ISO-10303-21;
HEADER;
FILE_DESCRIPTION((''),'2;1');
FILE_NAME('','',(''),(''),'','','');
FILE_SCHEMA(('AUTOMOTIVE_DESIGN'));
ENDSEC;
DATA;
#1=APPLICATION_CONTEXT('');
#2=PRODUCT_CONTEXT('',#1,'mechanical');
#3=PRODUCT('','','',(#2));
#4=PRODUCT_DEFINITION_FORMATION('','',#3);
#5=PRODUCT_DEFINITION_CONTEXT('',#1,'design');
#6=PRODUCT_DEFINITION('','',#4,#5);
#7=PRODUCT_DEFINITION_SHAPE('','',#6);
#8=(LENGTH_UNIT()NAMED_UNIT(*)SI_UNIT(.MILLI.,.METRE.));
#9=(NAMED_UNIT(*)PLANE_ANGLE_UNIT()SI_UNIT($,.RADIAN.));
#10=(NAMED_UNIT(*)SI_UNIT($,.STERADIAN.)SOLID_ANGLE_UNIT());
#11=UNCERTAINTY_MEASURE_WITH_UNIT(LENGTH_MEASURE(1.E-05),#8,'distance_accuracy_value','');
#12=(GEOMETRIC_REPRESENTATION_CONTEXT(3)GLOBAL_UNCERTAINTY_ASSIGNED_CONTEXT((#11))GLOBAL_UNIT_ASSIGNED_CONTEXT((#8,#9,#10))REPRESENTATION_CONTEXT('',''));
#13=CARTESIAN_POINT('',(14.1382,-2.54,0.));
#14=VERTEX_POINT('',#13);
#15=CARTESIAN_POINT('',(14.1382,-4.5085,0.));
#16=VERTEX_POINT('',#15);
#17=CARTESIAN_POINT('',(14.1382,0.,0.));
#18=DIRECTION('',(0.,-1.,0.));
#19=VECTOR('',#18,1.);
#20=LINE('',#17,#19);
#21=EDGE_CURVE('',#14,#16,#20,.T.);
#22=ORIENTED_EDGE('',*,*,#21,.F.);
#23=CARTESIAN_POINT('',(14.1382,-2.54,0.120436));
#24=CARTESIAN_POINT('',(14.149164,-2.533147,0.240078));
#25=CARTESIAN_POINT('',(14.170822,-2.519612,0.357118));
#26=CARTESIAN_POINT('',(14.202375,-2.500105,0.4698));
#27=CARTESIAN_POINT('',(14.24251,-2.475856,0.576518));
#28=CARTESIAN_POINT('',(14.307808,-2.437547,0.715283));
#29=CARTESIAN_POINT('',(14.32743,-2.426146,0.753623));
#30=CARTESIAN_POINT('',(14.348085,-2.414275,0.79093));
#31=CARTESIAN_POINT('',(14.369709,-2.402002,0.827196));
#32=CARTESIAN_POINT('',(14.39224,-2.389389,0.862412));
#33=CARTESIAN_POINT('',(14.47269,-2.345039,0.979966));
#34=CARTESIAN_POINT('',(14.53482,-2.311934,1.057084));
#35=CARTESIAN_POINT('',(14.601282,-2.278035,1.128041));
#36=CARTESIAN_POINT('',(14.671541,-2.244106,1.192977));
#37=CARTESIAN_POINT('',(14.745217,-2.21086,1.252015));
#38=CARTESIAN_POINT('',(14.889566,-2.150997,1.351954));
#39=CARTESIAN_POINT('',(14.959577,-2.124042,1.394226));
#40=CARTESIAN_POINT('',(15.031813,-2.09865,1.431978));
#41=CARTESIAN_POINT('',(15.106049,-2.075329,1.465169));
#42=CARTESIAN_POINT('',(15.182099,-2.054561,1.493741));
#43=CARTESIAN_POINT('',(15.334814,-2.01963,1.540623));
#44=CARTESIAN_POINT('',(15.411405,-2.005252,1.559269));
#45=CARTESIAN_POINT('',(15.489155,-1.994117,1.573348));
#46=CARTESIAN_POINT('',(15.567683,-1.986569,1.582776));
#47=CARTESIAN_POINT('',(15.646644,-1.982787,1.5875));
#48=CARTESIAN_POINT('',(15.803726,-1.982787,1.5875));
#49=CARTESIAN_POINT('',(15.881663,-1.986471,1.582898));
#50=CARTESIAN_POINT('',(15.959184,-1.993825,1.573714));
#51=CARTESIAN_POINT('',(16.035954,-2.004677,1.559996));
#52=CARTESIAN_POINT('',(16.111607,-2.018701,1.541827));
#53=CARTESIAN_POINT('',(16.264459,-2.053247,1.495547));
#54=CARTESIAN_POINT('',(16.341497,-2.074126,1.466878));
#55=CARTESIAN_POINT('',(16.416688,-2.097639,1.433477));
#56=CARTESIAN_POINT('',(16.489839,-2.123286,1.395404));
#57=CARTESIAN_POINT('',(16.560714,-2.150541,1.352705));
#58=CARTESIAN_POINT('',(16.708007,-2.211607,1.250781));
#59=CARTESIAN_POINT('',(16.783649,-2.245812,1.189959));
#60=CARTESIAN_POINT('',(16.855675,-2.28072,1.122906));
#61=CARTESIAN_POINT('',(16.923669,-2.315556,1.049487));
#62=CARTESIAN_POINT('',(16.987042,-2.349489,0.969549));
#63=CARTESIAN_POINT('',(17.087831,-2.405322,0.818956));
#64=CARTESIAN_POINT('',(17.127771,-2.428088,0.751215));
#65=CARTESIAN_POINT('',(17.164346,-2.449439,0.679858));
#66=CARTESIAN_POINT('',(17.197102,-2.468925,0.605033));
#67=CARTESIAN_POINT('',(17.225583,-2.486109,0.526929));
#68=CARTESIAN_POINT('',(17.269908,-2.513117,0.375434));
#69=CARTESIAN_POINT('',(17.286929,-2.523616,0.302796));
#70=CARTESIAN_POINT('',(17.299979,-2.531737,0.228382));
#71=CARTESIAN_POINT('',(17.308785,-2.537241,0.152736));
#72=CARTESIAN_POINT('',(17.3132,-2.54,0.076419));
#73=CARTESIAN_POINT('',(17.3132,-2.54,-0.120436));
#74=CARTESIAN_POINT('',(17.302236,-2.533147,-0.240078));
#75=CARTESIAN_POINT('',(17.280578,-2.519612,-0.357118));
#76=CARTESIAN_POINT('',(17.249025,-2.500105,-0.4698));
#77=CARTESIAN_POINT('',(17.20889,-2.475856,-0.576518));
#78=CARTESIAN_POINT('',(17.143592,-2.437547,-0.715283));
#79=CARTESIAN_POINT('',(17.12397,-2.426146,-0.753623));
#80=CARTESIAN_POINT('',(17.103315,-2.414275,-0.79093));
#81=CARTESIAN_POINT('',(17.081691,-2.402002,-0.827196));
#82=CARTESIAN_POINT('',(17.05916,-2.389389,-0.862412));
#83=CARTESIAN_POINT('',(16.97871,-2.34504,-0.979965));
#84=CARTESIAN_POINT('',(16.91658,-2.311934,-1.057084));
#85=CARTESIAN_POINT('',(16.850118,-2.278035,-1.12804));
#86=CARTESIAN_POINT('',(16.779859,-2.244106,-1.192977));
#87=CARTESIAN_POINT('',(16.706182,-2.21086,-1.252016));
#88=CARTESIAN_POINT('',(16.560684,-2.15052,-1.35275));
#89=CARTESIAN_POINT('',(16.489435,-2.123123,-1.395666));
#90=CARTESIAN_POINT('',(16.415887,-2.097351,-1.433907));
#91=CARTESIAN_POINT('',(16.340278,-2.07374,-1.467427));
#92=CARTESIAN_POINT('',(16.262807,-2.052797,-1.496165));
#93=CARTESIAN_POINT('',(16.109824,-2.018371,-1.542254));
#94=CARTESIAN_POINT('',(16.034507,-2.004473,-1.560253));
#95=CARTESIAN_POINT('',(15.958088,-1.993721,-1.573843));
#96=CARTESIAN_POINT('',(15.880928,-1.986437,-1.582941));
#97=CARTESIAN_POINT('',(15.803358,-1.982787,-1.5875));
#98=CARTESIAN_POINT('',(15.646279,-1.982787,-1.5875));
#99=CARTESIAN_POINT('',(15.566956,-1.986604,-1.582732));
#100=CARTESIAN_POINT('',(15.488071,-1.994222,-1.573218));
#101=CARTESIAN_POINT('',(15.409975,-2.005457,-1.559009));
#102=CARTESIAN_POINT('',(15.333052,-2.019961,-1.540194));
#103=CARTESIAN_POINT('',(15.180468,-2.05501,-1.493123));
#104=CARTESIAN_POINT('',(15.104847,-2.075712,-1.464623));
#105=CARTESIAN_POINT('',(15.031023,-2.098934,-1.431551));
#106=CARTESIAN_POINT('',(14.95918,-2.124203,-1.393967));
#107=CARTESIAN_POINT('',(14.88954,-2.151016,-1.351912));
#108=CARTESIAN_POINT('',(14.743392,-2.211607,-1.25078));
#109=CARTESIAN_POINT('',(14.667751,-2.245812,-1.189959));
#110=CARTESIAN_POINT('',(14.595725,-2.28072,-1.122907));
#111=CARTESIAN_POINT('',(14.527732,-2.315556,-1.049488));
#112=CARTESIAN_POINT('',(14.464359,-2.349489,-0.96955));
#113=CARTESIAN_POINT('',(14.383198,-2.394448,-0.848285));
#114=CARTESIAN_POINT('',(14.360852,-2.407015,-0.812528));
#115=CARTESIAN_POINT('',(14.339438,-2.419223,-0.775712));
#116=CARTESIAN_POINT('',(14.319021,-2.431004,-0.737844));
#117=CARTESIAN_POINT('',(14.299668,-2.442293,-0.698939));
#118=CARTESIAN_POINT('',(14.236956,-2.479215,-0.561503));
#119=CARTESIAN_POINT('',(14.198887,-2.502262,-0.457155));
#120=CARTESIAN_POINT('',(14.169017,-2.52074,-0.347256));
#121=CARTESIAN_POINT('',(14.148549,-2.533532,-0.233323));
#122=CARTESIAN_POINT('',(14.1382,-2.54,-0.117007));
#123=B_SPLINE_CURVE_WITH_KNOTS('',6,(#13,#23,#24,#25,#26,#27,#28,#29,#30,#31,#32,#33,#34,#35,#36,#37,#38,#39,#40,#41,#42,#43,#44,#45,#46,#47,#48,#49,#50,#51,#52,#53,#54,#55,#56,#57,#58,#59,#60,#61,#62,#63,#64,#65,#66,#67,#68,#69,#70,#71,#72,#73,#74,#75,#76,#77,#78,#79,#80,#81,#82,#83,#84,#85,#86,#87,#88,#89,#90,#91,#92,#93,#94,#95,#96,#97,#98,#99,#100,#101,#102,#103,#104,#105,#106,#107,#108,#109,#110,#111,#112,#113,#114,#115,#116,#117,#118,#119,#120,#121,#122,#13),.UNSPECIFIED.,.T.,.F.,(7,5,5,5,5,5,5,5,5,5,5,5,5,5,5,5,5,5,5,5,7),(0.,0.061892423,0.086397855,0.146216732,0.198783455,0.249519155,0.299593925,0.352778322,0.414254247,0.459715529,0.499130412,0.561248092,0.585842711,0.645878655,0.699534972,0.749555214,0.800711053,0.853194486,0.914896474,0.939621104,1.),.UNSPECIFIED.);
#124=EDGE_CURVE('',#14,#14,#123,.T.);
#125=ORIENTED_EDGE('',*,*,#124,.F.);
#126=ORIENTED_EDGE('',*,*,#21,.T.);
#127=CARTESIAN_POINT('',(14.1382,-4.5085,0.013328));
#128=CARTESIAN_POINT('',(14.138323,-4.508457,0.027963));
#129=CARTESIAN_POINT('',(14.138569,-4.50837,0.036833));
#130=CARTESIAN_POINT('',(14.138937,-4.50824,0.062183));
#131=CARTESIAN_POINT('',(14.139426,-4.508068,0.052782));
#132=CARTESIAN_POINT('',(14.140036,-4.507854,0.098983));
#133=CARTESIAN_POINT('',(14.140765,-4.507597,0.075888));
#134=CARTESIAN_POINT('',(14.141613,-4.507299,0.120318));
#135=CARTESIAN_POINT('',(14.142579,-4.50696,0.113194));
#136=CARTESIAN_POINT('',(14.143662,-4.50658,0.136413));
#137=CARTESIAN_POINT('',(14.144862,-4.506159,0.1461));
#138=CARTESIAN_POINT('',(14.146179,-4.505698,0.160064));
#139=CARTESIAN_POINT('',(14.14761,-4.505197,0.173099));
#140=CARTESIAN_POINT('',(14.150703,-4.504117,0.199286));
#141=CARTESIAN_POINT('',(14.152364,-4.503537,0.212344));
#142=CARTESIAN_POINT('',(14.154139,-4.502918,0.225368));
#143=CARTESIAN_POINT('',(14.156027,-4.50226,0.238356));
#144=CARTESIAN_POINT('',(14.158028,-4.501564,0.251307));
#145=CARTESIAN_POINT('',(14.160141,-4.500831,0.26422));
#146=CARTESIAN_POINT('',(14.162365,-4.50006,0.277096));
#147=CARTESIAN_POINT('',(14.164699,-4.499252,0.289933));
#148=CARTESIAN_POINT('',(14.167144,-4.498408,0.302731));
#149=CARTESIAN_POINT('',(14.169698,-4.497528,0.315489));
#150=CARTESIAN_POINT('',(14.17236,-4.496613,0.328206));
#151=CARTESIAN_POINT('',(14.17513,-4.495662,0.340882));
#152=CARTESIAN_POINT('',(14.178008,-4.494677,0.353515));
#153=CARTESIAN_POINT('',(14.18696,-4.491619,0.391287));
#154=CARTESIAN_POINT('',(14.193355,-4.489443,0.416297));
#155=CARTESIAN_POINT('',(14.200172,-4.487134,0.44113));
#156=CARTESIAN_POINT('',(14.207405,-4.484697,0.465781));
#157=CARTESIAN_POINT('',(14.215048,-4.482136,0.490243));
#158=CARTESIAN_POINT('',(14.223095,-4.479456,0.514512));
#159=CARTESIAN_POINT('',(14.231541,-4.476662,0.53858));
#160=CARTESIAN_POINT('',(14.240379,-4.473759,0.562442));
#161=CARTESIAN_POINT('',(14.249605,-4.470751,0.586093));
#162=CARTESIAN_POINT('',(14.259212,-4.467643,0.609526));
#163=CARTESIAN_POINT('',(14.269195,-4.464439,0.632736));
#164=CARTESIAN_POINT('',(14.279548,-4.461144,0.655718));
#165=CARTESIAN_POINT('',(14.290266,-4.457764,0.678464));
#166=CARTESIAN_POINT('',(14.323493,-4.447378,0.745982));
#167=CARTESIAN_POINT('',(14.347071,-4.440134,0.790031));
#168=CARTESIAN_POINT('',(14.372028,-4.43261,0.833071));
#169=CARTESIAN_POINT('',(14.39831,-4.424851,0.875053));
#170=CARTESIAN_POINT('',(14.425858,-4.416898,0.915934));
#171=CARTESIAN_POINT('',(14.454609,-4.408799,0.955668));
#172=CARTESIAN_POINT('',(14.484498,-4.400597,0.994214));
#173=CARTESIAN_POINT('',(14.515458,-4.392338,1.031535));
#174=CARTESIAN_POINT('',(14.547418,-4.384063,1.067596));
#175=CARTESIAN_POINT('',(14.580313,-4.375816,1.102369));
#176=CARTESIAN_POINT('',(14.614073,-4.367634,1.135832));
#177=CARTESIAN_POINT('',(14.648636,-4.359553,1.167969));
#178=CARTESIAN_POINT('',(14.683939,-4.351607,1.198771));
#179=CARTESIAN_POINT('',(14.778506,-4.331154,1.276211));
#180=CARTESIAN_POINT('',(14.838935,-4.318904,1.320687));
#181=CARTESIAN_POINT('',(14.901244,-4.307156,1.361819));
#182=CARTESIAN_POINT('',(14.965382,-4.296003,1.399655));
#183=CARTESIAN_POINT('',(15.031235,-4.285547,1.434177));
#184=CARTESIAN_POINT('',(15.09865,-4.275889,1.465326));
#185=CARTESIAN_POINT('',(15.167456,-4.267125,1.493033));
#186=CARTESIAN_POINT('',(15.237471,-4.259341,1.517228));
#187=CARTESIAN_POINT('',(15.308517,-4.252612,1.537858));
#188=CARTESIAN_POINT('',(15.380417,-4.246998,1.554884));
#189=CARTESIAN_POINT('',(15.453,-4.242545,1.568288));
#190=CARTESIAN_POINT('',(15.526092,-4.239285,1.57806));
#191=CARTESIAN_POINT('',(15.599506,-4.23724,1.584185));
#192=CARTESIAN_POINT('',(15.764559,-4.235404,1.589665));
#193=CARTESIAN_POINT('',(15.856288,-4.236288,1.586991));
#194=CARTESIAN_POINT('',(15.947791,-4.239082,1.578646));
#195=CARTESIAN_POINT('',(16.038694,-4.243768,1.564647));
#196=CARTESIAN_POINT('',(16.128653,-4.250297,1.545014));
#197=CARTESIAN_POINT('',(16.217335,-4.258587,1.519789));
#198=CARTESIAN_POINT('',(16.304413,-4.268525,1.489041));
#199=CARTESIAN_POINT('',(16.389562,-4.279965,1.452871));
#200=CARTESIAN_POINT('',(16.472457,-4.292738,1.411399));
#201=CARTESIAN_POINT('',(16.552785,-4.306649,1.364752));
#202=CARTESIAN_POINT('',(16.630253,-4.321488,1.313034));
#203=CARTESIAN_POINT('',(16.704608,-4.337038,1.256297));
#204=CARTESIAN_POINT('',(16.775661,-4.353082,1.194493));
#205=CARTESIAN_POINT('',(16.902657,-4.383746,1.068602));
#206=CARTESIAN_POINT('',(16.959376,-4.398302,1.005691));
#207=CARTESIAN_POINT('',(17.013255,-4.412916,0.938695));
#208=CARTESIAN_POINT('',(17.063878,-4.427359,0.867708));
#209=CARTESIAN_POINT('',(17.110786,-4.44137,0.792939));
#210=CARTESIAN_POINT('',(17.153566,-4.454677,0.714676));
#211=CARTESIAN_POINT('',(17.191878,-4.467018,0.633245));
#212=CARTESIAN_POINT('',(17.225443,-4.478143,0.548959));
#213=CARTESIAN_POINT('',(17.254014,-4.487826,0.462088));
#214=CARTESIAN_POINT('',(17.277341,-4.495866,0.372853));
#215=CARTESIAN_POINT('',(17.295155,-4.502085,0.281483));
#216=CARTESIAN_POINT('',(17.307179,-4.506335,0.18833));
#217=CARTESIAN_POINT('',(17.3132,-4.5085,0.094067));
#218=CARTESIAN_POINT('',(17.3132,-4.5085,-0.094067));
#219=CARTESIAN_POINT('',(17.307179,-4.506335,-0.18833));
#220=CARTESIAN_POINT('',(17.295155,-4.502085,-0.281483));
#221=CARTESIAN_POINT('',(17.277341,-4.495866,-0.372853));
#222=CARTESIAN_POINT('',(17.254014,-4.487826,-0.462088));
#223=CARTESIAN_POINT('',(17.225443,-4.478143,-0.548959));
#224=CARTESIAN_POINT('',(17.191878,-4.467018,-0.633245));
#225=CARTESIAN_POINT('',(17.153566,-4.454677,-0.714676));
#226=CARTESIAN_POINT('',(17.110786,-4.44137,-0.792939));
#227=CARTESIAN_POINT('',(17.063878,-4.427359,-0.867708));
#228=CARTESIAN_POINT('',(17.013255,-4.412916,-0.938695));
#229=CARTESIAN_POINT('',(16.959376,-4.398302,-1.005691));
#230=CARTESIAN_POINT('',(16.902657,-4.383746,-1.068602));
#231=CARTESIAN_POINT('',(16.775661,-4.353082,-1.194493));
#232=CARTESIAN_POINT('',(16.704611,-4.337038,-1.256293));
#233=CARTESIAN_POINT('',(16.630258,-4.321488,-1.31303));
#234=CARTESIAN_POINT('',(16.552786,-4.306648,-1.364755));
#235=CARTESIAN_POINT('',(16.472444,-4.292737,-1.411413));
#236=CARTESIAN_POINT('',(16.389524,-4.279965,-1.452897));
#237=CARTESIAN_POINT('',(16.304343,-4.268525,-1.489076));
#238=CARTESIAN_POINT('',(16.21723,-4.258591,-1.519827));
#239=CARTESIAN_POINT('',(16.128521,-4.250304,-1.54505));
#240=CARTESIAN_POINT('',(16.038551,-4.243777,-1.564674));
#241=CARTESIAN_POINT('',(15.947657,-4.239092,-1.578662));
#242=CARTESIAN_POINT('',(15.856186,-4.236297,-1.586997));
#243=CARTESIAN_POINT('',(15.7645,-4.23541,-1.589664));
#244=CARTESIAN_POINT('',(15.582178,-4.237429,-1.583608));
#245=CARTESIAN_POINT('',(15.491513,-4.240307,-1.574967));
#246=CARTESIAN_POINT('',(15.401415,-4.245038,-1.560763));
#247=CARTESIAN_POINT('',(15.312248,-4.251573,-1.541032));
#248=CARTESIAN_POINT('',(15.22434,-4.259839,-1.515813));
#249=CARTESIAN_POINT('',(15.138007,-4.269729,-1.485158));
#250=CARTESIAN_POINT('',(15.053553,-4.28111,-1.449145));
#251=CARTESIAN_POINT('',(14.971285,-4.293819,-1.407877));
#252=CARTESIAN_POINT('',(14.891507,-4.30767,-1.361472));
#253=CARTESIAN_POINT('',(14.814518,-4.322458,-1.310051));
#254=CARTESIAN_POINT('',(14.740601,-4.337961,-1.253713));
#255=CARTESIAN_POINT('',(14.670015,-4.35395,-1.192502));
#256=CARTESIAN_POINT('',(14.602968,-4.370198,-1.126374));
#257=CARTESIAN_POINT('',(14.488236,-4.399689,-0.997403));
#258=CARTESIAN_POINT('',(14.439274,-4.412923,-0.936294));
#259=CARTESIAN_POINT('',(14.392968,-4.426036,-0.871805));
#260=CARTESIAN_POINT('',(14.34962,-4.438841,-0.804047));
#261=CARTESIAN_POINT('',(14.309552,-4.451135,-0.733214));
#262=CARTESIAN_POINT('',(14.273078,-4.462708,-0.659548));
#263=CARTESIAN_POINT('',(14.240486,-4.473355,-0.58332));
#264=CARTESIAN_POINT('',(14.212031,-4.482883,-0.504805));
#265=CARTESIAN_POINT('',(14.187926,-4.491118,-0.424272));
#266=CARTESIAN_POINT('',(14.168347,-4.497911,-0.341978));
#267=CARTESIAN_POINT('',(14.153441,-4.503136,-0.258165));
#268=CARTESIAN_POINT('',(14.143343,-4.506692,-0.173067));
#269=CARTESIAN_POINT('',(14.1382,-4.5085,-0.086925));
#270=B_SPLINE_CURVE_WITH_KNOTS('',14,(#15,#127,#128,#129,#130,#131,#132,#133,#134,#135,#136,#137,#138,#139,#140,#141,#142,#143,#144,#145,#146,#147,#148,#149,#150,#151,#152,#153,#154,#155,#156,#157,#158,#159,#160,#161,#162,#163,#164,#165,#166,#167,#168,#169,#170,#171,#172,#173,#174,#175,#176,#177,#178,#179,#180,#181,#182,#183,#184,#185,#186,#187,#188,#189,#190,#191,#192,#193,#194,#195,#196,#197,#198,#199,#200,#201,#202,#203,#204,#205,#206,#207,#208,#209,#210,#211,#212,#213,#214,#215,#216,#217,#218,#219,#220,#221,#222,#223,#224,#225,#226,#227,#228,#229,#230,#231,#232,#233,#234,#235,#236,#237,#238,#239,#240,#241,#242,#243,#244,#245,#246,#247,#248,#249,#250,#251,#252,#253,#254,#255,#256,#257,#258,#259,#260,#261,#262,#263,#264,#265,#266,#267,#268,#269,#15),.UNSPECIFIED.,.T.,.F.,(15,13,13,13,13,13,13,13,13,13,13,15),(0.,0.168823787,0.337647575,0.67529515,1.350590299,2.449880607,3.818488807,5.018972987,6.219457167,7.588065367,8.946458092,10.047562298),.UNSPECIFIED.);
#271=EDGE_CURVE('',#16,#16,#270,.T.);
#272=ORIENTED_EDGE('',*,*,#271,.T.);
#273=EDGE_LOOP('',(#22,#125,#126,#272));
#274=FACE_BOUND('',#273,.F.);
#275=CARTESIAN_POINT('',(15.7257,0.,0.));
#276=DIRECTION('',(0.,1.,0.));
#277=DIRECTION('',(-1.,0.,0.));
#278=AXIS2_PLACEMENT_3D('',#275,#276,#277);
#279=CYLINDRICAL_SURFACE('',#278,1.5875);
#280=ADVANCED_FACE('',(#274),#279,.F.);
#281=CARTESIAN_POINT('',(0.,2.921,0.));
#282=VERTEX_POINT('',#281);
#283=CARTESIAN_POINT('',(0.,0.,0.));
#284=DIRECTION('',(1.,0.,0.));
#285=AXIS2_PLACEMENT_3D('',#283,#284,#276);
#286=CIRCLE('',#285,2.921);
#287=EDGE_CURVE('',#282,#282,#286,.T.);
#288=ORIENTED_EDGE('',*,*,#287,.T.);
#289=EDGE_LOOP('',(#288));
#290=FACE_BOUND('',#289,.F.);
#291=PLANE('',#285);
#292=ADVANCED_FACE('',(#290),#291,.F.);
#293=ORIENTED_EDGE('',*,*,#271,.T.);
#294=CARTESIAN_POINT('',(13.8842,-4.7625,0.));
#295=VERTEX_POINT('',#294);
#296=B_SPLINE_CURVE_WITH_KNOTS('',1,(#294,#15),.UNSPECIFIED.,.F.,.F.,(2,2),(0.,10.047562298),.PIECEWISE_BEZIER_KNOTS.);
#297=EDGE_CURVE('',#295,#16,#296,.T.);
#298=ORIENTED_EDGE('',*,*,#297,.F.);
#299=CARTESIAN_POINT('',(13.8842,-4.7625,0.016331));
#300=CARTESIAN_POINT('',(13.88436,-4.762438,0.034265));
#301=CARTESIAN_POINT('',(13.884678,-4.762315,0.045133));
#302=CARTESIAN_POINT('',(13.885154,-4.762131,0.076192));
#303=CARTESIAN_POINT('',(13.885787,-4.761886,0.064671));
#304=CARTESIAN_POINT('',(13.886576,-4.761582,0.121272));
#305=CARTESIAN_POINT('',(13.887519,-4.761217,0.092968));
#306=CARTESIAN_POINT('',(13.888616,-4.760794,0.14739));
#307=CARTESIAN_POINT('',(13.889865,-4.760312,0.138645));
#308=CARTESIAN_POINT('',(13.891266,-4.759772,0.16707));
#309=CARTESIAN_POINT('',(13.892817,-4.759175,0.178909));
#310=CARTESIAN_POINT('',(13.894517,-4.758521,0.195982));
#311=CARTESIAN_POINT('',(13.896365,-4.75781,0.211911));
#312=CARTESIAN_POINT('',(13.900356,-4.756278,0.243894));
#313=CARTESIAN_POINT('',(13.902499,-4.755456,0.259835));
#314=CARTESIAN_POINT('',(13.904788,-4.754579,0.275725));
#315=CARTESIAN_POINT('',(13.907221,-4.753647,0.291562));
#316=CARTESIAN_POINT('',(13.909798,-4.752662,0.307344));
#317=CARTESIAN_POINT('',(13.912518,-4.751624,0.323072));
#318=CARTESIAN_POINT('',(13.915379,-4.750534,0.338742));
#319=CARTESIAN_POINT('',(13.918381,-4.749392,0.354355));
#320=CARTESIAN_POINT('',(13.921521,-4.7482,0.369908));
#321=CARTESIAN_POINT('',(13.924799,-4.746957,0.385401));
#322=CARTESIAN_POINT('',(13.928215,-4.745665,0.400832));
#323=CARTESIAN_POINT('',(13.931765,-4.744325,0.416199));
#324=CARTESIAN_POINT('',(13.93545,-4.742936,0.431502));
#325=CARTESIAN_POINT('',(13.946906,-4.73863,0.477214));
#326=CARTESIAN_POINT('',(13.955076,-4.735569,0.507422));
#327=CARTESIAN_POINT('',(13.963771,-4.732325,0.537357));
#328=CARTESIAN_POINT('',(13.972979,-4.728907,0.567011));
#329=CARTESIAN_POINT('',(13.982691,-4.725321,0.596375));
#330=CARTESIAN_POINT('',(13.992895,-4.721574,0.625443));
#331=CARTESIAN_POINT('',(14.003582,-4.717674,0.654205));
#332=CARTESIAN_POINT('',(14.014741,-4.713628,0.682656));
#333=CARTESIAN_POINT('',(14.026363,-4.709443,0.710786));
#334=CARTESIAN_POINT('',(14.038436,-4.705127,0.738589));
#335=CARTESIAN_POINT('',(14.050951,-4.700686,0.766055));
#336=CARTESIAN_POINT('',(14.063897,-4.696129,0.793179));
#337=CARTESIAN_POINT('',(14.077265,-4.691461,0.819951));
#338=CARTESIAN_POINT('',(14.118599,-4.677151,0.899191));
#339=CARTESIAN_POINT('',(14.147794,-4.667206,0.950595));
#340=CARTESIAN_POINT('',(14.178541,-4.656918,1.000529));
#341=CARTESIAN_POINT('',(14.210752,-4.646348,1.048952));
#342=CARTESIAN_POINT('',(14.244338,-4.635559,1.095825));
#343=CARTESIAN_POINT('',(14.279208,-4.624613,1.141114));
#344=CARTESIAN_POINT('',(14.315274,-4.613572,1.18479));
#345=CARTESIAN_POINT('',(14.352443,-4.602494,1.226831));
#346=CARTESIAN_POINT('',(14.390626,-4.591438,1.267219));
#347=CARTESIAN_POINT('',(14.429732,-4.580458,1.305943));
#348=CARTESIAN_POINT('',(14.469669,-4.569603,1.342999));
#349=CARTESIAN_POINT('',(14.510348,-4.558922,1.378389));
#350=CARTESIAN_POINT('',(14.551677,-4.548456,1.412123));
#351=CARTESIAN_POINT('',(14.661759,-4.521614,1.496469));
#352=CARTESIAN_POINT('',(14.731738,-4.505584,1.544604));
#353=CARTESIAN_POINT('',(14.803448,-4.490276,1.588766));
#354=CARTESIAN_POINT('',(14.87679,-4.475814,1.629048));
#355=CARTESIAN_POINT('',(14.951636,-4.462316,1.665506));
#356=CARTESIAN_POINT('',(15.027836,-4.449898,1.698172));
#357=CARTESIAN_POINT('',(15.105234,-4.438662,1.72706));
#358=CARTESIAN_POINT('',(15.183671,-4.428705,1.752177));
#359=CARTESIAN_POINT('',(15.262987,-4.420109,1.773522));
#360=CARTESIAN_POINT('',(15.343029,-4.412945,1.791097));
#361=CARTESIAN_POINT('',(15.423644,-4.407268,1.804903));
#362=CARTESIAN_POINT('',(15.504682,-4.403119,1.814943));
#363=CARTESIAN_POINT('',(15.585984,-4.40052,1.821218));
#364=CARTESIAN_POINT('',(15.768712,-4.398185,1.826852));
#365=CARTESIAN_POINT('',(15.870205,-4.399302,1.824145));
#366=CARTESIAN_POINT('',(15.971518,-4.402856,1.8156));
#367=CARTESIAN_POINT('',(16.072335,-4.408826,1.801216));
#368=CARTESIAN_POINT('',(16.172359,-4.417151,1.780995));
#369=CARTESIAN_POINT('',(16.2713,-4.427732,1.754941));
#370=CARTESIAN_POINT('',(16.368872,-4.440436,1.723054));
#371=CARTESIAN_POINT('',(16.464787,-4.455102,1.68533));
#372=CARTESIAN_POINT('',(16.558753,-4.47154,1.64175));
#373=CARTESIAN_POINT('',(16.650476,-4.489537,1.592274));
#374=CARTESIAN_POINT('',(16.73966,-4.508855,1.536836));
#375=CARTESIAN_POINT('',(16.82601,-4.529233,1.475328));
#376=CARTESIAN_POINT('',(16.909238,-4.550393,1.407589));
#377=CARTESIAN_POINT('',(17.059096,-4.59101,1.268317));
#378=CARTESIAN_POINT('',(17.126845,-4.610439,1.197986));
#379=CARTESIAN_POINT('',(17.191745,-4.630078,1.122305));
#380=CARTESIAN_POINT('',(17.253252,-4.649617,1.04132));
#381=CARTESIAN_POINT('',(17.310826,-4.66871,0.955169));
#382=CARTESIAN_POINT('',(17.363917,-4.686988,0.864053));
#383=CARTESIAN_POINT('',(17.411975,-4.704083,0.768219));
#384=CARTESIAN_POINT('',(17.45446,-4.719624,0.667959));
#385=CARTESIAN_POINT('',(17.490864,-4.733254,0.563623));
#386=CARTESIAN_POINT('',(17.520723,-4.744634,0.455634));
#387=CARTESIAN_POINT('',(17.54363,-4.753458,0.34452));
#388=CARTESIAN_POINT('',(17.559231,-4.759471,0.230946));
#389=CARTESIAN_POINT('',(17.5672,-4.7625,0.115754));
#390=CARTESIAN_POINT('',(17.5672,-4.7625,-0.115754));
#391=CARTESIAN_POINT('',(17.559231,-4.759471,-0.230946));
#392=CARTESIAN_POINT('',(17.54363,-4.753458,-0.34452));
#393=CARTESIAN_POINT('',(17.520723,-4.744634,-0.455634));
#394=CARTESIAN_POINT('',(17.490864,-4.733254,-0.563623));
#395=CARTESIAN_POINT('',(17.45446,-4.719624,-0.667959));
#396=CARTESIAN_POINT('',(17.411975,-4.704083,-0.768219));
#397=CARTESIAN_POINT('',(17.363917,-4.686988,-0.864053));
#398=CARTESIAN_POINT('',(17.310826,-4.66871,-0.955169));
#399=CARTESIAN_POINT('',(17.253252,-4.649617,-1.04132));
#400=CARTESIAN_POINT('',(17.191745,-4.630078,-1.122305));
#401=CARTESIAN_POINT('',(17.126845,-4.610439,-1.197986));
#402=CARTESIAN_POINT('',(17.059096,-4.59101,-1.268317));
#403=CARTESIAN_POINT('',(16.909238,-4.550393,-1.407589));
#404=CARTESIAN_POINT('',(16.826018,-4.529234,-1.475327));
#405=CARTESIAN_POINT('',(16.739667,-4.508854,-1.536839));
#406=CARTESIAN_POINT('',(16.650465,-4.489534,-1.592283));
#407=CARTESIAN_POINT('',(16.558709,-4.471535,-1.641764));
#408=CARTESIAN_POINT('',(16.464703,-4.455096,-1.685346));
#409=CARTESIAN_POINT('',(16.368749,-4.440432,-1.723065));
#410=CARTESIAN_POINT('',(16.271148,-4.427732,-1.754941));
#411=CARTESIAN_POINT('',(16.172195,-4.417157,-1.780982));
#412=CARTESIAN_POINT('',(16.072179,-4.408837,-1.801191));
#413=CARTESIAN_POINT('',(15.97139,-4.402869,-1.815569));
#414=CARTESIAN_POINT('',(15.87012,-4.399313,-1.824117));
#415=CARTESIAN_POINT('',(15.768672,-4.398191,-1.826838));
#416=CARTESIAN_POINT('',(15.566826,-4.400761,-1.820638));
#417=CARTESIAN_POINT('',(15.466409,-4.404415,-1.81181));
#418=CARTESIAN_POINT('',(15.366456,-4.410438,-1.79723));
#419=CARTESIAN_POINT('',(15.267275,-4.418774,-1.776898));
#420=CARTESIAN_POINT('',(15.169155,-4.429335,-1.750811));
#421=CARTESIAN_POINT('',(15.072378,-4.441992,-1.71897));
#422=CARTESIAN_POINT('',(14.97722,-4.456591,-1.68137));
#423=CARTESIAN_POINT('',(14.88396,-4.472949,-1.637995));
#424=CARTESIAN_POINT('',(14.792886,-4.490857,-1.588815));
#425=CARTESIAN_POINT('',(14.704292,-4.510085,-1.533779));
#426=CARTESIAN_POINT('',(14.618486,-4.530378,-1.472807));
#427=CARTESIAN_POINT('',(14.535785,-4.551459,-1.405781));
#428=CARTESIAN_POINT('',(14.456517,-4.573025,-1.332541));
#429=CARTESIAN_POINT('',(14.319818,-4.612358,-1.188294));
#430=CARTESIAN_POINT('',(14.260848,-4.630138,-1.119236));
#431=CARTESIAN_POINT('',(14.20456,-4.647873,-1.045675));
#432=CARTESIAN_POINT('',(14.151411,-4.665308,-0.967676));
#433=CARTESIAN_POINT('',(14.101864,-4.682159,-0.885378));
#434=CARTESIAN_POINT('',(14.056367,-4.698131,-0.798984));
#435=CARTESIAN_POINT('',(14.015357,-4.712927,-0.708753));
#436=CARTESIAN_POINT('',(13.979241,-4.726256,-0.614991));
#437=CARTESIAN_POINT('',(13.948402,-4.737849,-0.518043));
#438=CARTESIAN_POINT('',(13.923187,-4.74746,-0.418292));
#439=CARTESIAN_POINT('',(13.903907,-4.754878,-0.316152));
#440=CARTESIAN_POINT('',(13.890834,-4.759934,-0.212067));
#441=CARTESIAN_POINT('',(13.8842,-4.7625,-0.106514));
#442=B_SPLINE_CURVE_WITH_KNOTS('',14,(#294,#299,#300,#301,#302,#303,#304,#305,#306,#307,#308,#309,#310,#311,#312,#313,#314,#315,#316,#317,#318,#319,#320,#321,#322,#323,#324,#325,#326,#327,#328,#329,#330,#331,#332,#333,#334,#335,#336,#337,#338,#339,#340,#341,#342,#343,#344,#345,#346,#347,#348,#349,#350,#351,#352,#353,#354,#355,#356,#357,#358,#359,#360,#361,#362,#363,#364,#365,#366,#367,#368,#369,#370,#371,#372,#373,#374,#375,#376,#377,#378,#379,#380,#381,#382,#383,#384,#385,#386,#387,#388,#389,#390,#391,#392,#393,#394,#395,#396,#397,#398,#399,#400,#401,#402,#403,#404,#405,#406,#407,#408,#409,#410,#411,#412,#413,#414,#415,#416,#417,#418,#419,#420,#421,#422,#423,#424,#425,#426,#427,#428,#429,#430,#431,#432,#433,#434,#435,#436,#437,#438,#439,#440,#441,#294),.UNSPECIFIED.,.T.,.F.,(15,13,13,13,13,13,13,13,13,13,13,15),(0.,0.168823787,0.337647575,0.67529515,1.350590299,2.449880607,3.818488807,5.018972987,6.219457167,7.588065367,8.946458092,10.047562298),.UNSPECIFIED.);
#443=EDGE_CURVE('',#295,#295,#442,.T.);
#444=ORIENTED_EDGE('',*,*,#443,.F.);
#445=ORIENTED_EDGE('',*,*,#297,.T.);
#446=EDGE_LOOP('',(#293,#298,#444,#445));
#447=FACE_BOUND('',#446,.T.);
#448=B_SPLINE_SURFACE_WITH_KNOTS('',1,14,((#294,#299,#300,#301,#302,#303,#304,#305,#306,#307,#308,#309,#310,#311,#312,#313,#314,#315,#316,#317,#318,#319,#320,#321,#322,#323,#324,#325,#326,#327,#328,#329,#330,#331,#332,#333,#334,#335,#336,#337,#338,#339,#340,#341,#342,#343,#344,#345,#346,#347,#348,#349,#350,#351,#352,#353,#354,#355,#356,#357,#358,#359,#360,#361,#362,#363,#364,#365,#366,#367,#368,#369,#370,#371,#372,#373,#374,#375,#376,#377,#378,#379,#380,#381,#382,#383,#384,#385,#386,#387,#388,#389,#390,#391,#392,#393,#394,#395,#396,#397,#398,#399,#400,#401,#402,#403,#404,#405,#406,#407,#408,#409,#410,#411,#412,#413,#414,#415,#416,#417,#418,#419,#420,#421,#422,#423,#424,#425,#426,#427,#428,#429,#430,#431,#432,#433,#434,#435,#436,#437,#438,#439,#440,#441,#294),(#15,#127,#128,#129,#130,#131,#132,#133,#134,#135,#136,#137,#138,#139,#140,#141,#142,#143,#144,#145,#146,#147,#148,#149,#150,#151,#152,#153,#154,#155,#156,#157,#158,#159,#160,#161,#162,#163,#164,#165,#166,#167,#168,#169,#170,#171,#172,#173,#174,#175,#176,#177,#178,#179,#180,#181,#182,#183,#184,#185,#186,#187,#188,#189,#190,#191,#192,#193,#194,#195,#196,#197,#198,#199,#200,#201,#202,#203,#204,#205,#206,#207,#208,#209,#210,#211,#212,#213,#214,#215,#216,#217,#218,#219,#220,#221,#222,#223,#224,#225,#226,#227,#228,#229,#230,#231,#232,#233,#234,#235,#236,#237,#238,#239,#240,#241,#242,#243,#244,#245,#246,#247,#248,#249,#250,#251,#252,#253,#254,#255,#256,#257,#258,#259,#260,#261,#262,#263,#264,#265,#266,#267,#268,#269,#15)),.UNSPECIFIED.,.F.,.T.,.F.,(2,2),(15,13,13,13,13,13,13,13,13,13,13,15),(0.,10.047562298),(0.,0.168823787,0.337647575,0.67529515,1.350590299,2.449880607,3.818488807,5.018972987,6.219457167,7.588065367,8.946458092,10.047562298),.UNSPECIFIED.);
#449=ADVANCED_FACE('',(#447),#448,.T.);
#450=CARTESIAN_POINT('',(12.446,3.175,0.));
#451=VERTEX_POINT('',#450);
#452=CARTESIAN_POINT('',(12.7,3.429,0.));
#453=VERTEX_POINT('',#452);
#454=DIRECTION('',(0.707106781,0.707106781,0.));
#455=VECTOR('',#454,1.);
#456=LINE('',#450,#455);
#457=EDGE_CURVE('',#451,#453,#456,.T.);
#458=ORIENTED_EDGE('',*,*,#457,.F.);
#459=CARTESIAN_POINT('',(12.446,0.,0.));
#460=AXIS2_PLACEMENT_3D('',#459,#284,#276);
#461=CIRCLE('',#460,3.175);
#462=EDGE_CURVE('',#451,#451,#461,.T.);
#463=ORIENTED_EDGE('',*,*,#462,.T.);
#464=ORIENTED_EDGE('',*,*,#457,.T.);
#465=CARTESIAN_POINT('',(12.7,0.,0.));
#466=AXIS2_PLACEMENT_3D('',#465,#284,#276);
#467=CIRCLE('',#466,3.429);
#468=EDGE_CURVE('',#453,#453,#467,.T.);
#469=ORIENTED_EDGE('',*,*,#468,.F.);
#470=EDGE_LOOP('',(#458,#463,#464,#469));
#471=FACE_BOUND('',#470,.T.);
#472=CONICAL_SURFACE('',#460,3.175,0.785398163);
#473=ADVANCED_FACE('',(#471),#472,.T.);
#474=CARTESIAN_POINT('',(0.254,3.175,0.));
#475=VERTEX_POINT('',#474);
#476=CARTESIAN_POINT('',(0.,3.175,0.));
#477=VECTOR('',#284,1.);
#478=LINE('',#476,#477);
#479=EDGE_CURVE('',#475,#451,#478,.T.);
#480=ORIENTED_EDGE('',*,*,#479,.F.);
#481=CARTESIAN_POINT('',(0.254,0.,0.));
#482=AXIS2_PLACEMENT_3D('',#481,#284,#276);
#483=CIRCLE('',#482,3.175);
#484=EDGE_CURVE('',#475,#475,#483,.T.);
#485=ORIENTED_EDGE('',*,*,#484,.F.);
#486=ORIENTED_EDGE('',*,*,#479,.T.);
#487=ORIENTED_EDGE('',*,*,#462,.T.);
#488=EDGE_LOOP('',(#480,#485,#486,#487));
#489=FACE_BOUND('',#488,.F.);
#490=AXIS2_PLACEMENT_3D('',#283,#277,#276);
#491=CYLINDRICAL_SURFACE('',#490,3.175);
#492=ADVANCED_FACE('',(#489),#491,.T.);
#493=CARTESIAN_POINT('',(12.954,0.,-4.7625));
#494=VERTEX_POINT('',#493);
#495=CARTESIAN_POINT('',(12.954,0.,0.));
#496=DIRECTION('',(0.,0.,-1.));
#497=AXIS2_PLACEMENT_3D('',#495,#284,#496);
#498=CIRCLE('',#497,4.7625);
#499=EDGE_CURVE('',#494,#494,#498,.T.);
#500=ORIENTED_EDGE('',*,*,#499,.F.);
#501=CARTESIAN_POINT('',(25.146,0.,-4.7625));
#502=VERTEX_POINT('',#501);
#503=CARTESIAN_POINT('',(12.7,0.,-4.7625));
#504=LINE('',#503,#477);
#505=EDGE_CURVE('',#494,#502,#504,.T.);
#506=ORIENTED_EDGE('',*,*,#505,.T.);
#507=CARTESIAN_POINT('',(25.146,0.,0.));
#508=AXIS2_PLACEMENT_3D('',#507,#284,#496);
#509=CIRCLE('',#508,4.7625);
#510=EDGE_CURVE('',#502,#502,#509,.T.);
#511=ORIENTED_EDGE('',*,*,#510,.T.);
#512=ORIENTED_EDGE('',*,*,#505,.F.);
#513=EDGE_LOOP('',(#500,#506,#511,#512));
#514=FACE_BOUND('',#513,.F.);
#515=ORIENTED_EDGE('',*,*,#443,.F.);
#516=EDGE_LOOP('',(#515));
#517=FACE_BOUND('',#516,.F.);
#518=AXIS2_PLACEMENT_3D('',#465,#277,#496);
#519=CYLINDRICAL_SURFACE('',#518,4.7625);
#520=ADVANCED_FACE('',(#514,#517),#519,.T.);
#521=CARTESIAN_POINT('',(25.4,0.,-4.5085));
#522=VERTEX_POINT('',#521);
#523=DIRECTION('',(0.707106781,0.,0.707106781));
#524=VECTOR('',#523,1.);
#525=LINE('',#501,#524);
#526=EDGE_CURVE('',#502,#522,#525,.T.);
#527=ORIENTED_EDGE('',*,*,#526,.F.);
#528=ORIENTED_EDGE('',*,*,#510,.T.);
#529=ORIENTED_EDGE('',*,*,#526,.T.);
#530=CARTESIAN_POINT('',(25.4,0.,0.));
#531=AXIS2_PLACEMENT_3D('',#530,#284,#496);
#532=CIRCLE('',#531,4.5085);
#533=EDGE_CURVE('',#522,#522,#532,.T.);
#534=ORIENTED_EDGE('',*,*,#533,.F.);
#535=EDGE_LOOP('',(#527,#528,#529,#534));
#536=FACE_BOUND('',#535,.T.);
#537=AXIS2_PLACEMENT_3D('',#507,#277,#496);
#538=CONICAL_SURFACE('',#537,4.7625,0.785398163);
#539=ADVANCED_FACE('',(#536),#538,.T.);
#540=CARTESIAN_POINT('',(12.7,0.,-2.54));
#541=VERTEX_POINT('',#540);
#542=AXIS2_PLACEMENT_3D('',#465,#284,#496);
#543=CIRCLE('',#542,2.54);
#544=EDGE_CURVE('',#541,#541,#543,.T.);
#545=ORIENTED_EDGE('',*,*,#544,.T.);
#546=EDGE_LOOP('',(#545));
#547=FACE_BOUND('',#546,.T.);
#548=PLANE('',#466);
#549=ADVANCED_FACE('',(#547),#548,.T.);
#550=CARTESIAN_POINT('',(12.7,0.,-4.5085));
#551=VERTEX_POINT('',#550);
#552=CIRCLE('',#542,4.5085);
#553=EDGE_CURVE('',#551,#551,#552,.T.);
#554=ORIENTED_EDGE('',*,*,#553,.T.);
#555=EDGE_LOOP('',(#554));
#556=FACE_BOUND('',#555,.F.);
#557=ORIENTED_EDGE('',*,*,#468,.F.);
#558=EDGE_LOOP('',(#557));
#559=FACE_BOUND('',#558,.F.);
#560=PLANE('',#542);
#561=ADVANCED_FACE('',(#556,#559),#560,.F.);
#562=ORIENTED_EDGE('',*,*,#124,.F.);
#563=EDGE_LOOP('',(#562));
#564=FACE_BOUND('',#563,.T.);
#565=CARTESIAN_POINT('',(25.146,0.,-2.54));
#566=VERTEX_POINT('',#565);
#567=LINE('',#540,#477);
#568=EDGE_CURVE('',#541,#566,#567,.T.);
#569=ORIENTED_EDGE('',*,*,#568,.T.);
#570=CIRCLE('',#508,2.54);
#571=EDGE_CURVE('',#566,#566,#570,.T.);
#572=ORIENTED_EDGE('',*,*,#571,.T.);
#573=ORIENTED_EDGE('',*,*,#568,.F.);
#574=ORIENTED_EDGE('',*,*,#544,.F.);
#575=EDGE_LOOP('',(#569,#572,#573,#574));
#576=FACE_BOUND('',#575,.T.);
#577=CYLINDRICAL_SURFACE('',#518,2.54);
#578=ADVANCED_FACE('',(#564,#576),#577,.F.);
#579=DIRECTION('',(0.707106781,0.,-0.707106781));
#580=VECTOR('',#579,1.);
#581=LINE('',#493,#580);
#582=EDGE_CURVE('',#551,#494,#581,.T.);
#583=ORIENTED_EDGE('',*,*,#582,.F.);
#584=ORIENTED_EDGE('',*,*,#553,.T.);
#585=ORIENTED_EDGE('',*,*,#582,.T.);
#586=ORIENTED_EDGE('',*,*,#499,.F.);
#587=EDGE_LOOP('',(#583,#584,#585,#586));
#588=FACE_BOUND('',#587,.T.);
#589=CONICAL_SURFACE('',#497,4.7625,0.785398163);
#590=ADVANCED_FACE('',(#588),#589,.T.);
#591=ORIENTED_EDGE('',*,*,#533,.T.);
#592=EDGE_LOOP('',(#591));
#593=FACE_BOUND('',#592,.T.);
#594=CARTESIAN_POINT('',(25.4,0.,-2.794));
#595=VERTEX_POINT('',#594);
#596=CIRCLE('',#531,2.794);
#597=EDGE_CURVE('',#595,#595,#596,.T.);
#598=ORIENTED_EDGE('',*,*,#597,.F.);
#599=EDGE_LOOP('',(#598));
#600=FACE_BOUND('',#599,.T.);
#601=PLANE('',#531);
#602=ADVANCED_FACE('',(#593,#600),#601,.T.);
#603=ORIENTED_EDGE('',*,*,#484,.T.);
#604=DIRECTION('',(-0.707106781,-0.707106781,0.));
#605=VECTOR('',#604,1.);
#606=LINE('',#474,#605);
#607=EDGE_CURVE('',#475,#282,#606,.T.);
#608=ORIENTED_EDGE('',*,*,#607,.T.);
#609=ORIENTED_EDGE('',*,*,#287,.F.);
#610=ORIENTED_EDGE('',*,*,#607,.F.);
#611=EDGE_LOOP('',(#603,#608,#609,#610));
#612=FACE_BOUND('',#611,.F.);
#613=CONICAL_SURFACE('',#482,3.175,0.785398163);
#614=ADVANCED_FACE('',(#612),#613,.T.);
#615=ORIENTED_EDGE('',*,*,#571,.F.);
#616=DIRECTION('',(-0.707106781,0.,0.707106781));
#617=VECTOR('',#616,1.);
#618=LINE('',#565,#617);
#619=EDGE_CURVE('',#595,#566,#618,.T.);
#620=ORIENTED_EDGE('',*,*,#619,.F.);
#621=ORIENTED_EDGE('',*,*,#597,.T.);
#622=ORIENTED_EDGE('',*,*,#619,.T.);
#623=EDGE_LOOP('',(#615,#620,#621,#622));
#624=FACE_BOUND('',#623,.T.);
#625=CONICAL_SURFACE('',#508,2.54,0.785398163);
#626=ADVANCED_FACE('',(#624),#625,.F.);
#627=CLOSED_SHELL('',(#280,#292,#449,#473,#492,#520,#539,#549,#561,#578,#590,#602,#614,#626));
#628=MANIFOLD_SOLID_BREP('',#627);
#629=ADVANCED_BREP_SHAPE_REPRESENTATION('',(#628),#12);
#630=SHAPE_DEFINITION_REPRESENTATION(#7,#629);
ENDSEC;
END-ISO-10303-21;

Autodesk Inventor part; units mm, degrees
ref_plane "YZ Plane" through (0, 0, 0) normal (1, 0, 0) x (0, 1, 0)
ref_plane "XZ Plane" through (0, 0, 0) normal (0, 1, 0) x (-1, 0, 0)
ref_plane "XY Plane" through (0, 0, 0) normal (0, 0, 1) x (1, 0, 0)
sketch "Sketch1" plane through (0, 0, 0) normal (1, 0, 0) x (0, 1, 0)
  circle A0 centre (0, 0) radius 3.175
  dimension "d0" = 6.35
extrude "Extrusion1" add sketch "Sketch1" along normal blind 12.7
sketch "Sketch2" plane through (12.7, 0, 0) normal (1, 0, 0) x (0, 0, -1)
  circle A0 centre (0, 0) radius 4.7625
  circle A1 centre (0, 0) radius 2.54
  dimension "d3" = 9.525
  dimension "d6" = 5.08
extrude "Extrusion2" add sketch "Sketch2" along normal blind 12.7
sketch "Sketch4" plane through (0, 0, 0) normal (0, 1, 0) x (-1, 0, 0)
  circle A0 centre (-15.7257, 0) radius 1.5875
  point P0 (0, 0)
  dimension "d7" = 3.175
extrude "Extrusion3" cut sketch "Sketch4" against normal up to next
chamfer "Chamfer1" distance 0.254 angle 45 6 edges at (0, -3.175, 0) (12.7, 0, 4.7625) (12.7, -3.175, 0) (17.2497, -4.7417, 0.4446) (25.4, 0, 4.7625) (25.4, 0, 2.54)
properties part number "Motor-Adapter"
